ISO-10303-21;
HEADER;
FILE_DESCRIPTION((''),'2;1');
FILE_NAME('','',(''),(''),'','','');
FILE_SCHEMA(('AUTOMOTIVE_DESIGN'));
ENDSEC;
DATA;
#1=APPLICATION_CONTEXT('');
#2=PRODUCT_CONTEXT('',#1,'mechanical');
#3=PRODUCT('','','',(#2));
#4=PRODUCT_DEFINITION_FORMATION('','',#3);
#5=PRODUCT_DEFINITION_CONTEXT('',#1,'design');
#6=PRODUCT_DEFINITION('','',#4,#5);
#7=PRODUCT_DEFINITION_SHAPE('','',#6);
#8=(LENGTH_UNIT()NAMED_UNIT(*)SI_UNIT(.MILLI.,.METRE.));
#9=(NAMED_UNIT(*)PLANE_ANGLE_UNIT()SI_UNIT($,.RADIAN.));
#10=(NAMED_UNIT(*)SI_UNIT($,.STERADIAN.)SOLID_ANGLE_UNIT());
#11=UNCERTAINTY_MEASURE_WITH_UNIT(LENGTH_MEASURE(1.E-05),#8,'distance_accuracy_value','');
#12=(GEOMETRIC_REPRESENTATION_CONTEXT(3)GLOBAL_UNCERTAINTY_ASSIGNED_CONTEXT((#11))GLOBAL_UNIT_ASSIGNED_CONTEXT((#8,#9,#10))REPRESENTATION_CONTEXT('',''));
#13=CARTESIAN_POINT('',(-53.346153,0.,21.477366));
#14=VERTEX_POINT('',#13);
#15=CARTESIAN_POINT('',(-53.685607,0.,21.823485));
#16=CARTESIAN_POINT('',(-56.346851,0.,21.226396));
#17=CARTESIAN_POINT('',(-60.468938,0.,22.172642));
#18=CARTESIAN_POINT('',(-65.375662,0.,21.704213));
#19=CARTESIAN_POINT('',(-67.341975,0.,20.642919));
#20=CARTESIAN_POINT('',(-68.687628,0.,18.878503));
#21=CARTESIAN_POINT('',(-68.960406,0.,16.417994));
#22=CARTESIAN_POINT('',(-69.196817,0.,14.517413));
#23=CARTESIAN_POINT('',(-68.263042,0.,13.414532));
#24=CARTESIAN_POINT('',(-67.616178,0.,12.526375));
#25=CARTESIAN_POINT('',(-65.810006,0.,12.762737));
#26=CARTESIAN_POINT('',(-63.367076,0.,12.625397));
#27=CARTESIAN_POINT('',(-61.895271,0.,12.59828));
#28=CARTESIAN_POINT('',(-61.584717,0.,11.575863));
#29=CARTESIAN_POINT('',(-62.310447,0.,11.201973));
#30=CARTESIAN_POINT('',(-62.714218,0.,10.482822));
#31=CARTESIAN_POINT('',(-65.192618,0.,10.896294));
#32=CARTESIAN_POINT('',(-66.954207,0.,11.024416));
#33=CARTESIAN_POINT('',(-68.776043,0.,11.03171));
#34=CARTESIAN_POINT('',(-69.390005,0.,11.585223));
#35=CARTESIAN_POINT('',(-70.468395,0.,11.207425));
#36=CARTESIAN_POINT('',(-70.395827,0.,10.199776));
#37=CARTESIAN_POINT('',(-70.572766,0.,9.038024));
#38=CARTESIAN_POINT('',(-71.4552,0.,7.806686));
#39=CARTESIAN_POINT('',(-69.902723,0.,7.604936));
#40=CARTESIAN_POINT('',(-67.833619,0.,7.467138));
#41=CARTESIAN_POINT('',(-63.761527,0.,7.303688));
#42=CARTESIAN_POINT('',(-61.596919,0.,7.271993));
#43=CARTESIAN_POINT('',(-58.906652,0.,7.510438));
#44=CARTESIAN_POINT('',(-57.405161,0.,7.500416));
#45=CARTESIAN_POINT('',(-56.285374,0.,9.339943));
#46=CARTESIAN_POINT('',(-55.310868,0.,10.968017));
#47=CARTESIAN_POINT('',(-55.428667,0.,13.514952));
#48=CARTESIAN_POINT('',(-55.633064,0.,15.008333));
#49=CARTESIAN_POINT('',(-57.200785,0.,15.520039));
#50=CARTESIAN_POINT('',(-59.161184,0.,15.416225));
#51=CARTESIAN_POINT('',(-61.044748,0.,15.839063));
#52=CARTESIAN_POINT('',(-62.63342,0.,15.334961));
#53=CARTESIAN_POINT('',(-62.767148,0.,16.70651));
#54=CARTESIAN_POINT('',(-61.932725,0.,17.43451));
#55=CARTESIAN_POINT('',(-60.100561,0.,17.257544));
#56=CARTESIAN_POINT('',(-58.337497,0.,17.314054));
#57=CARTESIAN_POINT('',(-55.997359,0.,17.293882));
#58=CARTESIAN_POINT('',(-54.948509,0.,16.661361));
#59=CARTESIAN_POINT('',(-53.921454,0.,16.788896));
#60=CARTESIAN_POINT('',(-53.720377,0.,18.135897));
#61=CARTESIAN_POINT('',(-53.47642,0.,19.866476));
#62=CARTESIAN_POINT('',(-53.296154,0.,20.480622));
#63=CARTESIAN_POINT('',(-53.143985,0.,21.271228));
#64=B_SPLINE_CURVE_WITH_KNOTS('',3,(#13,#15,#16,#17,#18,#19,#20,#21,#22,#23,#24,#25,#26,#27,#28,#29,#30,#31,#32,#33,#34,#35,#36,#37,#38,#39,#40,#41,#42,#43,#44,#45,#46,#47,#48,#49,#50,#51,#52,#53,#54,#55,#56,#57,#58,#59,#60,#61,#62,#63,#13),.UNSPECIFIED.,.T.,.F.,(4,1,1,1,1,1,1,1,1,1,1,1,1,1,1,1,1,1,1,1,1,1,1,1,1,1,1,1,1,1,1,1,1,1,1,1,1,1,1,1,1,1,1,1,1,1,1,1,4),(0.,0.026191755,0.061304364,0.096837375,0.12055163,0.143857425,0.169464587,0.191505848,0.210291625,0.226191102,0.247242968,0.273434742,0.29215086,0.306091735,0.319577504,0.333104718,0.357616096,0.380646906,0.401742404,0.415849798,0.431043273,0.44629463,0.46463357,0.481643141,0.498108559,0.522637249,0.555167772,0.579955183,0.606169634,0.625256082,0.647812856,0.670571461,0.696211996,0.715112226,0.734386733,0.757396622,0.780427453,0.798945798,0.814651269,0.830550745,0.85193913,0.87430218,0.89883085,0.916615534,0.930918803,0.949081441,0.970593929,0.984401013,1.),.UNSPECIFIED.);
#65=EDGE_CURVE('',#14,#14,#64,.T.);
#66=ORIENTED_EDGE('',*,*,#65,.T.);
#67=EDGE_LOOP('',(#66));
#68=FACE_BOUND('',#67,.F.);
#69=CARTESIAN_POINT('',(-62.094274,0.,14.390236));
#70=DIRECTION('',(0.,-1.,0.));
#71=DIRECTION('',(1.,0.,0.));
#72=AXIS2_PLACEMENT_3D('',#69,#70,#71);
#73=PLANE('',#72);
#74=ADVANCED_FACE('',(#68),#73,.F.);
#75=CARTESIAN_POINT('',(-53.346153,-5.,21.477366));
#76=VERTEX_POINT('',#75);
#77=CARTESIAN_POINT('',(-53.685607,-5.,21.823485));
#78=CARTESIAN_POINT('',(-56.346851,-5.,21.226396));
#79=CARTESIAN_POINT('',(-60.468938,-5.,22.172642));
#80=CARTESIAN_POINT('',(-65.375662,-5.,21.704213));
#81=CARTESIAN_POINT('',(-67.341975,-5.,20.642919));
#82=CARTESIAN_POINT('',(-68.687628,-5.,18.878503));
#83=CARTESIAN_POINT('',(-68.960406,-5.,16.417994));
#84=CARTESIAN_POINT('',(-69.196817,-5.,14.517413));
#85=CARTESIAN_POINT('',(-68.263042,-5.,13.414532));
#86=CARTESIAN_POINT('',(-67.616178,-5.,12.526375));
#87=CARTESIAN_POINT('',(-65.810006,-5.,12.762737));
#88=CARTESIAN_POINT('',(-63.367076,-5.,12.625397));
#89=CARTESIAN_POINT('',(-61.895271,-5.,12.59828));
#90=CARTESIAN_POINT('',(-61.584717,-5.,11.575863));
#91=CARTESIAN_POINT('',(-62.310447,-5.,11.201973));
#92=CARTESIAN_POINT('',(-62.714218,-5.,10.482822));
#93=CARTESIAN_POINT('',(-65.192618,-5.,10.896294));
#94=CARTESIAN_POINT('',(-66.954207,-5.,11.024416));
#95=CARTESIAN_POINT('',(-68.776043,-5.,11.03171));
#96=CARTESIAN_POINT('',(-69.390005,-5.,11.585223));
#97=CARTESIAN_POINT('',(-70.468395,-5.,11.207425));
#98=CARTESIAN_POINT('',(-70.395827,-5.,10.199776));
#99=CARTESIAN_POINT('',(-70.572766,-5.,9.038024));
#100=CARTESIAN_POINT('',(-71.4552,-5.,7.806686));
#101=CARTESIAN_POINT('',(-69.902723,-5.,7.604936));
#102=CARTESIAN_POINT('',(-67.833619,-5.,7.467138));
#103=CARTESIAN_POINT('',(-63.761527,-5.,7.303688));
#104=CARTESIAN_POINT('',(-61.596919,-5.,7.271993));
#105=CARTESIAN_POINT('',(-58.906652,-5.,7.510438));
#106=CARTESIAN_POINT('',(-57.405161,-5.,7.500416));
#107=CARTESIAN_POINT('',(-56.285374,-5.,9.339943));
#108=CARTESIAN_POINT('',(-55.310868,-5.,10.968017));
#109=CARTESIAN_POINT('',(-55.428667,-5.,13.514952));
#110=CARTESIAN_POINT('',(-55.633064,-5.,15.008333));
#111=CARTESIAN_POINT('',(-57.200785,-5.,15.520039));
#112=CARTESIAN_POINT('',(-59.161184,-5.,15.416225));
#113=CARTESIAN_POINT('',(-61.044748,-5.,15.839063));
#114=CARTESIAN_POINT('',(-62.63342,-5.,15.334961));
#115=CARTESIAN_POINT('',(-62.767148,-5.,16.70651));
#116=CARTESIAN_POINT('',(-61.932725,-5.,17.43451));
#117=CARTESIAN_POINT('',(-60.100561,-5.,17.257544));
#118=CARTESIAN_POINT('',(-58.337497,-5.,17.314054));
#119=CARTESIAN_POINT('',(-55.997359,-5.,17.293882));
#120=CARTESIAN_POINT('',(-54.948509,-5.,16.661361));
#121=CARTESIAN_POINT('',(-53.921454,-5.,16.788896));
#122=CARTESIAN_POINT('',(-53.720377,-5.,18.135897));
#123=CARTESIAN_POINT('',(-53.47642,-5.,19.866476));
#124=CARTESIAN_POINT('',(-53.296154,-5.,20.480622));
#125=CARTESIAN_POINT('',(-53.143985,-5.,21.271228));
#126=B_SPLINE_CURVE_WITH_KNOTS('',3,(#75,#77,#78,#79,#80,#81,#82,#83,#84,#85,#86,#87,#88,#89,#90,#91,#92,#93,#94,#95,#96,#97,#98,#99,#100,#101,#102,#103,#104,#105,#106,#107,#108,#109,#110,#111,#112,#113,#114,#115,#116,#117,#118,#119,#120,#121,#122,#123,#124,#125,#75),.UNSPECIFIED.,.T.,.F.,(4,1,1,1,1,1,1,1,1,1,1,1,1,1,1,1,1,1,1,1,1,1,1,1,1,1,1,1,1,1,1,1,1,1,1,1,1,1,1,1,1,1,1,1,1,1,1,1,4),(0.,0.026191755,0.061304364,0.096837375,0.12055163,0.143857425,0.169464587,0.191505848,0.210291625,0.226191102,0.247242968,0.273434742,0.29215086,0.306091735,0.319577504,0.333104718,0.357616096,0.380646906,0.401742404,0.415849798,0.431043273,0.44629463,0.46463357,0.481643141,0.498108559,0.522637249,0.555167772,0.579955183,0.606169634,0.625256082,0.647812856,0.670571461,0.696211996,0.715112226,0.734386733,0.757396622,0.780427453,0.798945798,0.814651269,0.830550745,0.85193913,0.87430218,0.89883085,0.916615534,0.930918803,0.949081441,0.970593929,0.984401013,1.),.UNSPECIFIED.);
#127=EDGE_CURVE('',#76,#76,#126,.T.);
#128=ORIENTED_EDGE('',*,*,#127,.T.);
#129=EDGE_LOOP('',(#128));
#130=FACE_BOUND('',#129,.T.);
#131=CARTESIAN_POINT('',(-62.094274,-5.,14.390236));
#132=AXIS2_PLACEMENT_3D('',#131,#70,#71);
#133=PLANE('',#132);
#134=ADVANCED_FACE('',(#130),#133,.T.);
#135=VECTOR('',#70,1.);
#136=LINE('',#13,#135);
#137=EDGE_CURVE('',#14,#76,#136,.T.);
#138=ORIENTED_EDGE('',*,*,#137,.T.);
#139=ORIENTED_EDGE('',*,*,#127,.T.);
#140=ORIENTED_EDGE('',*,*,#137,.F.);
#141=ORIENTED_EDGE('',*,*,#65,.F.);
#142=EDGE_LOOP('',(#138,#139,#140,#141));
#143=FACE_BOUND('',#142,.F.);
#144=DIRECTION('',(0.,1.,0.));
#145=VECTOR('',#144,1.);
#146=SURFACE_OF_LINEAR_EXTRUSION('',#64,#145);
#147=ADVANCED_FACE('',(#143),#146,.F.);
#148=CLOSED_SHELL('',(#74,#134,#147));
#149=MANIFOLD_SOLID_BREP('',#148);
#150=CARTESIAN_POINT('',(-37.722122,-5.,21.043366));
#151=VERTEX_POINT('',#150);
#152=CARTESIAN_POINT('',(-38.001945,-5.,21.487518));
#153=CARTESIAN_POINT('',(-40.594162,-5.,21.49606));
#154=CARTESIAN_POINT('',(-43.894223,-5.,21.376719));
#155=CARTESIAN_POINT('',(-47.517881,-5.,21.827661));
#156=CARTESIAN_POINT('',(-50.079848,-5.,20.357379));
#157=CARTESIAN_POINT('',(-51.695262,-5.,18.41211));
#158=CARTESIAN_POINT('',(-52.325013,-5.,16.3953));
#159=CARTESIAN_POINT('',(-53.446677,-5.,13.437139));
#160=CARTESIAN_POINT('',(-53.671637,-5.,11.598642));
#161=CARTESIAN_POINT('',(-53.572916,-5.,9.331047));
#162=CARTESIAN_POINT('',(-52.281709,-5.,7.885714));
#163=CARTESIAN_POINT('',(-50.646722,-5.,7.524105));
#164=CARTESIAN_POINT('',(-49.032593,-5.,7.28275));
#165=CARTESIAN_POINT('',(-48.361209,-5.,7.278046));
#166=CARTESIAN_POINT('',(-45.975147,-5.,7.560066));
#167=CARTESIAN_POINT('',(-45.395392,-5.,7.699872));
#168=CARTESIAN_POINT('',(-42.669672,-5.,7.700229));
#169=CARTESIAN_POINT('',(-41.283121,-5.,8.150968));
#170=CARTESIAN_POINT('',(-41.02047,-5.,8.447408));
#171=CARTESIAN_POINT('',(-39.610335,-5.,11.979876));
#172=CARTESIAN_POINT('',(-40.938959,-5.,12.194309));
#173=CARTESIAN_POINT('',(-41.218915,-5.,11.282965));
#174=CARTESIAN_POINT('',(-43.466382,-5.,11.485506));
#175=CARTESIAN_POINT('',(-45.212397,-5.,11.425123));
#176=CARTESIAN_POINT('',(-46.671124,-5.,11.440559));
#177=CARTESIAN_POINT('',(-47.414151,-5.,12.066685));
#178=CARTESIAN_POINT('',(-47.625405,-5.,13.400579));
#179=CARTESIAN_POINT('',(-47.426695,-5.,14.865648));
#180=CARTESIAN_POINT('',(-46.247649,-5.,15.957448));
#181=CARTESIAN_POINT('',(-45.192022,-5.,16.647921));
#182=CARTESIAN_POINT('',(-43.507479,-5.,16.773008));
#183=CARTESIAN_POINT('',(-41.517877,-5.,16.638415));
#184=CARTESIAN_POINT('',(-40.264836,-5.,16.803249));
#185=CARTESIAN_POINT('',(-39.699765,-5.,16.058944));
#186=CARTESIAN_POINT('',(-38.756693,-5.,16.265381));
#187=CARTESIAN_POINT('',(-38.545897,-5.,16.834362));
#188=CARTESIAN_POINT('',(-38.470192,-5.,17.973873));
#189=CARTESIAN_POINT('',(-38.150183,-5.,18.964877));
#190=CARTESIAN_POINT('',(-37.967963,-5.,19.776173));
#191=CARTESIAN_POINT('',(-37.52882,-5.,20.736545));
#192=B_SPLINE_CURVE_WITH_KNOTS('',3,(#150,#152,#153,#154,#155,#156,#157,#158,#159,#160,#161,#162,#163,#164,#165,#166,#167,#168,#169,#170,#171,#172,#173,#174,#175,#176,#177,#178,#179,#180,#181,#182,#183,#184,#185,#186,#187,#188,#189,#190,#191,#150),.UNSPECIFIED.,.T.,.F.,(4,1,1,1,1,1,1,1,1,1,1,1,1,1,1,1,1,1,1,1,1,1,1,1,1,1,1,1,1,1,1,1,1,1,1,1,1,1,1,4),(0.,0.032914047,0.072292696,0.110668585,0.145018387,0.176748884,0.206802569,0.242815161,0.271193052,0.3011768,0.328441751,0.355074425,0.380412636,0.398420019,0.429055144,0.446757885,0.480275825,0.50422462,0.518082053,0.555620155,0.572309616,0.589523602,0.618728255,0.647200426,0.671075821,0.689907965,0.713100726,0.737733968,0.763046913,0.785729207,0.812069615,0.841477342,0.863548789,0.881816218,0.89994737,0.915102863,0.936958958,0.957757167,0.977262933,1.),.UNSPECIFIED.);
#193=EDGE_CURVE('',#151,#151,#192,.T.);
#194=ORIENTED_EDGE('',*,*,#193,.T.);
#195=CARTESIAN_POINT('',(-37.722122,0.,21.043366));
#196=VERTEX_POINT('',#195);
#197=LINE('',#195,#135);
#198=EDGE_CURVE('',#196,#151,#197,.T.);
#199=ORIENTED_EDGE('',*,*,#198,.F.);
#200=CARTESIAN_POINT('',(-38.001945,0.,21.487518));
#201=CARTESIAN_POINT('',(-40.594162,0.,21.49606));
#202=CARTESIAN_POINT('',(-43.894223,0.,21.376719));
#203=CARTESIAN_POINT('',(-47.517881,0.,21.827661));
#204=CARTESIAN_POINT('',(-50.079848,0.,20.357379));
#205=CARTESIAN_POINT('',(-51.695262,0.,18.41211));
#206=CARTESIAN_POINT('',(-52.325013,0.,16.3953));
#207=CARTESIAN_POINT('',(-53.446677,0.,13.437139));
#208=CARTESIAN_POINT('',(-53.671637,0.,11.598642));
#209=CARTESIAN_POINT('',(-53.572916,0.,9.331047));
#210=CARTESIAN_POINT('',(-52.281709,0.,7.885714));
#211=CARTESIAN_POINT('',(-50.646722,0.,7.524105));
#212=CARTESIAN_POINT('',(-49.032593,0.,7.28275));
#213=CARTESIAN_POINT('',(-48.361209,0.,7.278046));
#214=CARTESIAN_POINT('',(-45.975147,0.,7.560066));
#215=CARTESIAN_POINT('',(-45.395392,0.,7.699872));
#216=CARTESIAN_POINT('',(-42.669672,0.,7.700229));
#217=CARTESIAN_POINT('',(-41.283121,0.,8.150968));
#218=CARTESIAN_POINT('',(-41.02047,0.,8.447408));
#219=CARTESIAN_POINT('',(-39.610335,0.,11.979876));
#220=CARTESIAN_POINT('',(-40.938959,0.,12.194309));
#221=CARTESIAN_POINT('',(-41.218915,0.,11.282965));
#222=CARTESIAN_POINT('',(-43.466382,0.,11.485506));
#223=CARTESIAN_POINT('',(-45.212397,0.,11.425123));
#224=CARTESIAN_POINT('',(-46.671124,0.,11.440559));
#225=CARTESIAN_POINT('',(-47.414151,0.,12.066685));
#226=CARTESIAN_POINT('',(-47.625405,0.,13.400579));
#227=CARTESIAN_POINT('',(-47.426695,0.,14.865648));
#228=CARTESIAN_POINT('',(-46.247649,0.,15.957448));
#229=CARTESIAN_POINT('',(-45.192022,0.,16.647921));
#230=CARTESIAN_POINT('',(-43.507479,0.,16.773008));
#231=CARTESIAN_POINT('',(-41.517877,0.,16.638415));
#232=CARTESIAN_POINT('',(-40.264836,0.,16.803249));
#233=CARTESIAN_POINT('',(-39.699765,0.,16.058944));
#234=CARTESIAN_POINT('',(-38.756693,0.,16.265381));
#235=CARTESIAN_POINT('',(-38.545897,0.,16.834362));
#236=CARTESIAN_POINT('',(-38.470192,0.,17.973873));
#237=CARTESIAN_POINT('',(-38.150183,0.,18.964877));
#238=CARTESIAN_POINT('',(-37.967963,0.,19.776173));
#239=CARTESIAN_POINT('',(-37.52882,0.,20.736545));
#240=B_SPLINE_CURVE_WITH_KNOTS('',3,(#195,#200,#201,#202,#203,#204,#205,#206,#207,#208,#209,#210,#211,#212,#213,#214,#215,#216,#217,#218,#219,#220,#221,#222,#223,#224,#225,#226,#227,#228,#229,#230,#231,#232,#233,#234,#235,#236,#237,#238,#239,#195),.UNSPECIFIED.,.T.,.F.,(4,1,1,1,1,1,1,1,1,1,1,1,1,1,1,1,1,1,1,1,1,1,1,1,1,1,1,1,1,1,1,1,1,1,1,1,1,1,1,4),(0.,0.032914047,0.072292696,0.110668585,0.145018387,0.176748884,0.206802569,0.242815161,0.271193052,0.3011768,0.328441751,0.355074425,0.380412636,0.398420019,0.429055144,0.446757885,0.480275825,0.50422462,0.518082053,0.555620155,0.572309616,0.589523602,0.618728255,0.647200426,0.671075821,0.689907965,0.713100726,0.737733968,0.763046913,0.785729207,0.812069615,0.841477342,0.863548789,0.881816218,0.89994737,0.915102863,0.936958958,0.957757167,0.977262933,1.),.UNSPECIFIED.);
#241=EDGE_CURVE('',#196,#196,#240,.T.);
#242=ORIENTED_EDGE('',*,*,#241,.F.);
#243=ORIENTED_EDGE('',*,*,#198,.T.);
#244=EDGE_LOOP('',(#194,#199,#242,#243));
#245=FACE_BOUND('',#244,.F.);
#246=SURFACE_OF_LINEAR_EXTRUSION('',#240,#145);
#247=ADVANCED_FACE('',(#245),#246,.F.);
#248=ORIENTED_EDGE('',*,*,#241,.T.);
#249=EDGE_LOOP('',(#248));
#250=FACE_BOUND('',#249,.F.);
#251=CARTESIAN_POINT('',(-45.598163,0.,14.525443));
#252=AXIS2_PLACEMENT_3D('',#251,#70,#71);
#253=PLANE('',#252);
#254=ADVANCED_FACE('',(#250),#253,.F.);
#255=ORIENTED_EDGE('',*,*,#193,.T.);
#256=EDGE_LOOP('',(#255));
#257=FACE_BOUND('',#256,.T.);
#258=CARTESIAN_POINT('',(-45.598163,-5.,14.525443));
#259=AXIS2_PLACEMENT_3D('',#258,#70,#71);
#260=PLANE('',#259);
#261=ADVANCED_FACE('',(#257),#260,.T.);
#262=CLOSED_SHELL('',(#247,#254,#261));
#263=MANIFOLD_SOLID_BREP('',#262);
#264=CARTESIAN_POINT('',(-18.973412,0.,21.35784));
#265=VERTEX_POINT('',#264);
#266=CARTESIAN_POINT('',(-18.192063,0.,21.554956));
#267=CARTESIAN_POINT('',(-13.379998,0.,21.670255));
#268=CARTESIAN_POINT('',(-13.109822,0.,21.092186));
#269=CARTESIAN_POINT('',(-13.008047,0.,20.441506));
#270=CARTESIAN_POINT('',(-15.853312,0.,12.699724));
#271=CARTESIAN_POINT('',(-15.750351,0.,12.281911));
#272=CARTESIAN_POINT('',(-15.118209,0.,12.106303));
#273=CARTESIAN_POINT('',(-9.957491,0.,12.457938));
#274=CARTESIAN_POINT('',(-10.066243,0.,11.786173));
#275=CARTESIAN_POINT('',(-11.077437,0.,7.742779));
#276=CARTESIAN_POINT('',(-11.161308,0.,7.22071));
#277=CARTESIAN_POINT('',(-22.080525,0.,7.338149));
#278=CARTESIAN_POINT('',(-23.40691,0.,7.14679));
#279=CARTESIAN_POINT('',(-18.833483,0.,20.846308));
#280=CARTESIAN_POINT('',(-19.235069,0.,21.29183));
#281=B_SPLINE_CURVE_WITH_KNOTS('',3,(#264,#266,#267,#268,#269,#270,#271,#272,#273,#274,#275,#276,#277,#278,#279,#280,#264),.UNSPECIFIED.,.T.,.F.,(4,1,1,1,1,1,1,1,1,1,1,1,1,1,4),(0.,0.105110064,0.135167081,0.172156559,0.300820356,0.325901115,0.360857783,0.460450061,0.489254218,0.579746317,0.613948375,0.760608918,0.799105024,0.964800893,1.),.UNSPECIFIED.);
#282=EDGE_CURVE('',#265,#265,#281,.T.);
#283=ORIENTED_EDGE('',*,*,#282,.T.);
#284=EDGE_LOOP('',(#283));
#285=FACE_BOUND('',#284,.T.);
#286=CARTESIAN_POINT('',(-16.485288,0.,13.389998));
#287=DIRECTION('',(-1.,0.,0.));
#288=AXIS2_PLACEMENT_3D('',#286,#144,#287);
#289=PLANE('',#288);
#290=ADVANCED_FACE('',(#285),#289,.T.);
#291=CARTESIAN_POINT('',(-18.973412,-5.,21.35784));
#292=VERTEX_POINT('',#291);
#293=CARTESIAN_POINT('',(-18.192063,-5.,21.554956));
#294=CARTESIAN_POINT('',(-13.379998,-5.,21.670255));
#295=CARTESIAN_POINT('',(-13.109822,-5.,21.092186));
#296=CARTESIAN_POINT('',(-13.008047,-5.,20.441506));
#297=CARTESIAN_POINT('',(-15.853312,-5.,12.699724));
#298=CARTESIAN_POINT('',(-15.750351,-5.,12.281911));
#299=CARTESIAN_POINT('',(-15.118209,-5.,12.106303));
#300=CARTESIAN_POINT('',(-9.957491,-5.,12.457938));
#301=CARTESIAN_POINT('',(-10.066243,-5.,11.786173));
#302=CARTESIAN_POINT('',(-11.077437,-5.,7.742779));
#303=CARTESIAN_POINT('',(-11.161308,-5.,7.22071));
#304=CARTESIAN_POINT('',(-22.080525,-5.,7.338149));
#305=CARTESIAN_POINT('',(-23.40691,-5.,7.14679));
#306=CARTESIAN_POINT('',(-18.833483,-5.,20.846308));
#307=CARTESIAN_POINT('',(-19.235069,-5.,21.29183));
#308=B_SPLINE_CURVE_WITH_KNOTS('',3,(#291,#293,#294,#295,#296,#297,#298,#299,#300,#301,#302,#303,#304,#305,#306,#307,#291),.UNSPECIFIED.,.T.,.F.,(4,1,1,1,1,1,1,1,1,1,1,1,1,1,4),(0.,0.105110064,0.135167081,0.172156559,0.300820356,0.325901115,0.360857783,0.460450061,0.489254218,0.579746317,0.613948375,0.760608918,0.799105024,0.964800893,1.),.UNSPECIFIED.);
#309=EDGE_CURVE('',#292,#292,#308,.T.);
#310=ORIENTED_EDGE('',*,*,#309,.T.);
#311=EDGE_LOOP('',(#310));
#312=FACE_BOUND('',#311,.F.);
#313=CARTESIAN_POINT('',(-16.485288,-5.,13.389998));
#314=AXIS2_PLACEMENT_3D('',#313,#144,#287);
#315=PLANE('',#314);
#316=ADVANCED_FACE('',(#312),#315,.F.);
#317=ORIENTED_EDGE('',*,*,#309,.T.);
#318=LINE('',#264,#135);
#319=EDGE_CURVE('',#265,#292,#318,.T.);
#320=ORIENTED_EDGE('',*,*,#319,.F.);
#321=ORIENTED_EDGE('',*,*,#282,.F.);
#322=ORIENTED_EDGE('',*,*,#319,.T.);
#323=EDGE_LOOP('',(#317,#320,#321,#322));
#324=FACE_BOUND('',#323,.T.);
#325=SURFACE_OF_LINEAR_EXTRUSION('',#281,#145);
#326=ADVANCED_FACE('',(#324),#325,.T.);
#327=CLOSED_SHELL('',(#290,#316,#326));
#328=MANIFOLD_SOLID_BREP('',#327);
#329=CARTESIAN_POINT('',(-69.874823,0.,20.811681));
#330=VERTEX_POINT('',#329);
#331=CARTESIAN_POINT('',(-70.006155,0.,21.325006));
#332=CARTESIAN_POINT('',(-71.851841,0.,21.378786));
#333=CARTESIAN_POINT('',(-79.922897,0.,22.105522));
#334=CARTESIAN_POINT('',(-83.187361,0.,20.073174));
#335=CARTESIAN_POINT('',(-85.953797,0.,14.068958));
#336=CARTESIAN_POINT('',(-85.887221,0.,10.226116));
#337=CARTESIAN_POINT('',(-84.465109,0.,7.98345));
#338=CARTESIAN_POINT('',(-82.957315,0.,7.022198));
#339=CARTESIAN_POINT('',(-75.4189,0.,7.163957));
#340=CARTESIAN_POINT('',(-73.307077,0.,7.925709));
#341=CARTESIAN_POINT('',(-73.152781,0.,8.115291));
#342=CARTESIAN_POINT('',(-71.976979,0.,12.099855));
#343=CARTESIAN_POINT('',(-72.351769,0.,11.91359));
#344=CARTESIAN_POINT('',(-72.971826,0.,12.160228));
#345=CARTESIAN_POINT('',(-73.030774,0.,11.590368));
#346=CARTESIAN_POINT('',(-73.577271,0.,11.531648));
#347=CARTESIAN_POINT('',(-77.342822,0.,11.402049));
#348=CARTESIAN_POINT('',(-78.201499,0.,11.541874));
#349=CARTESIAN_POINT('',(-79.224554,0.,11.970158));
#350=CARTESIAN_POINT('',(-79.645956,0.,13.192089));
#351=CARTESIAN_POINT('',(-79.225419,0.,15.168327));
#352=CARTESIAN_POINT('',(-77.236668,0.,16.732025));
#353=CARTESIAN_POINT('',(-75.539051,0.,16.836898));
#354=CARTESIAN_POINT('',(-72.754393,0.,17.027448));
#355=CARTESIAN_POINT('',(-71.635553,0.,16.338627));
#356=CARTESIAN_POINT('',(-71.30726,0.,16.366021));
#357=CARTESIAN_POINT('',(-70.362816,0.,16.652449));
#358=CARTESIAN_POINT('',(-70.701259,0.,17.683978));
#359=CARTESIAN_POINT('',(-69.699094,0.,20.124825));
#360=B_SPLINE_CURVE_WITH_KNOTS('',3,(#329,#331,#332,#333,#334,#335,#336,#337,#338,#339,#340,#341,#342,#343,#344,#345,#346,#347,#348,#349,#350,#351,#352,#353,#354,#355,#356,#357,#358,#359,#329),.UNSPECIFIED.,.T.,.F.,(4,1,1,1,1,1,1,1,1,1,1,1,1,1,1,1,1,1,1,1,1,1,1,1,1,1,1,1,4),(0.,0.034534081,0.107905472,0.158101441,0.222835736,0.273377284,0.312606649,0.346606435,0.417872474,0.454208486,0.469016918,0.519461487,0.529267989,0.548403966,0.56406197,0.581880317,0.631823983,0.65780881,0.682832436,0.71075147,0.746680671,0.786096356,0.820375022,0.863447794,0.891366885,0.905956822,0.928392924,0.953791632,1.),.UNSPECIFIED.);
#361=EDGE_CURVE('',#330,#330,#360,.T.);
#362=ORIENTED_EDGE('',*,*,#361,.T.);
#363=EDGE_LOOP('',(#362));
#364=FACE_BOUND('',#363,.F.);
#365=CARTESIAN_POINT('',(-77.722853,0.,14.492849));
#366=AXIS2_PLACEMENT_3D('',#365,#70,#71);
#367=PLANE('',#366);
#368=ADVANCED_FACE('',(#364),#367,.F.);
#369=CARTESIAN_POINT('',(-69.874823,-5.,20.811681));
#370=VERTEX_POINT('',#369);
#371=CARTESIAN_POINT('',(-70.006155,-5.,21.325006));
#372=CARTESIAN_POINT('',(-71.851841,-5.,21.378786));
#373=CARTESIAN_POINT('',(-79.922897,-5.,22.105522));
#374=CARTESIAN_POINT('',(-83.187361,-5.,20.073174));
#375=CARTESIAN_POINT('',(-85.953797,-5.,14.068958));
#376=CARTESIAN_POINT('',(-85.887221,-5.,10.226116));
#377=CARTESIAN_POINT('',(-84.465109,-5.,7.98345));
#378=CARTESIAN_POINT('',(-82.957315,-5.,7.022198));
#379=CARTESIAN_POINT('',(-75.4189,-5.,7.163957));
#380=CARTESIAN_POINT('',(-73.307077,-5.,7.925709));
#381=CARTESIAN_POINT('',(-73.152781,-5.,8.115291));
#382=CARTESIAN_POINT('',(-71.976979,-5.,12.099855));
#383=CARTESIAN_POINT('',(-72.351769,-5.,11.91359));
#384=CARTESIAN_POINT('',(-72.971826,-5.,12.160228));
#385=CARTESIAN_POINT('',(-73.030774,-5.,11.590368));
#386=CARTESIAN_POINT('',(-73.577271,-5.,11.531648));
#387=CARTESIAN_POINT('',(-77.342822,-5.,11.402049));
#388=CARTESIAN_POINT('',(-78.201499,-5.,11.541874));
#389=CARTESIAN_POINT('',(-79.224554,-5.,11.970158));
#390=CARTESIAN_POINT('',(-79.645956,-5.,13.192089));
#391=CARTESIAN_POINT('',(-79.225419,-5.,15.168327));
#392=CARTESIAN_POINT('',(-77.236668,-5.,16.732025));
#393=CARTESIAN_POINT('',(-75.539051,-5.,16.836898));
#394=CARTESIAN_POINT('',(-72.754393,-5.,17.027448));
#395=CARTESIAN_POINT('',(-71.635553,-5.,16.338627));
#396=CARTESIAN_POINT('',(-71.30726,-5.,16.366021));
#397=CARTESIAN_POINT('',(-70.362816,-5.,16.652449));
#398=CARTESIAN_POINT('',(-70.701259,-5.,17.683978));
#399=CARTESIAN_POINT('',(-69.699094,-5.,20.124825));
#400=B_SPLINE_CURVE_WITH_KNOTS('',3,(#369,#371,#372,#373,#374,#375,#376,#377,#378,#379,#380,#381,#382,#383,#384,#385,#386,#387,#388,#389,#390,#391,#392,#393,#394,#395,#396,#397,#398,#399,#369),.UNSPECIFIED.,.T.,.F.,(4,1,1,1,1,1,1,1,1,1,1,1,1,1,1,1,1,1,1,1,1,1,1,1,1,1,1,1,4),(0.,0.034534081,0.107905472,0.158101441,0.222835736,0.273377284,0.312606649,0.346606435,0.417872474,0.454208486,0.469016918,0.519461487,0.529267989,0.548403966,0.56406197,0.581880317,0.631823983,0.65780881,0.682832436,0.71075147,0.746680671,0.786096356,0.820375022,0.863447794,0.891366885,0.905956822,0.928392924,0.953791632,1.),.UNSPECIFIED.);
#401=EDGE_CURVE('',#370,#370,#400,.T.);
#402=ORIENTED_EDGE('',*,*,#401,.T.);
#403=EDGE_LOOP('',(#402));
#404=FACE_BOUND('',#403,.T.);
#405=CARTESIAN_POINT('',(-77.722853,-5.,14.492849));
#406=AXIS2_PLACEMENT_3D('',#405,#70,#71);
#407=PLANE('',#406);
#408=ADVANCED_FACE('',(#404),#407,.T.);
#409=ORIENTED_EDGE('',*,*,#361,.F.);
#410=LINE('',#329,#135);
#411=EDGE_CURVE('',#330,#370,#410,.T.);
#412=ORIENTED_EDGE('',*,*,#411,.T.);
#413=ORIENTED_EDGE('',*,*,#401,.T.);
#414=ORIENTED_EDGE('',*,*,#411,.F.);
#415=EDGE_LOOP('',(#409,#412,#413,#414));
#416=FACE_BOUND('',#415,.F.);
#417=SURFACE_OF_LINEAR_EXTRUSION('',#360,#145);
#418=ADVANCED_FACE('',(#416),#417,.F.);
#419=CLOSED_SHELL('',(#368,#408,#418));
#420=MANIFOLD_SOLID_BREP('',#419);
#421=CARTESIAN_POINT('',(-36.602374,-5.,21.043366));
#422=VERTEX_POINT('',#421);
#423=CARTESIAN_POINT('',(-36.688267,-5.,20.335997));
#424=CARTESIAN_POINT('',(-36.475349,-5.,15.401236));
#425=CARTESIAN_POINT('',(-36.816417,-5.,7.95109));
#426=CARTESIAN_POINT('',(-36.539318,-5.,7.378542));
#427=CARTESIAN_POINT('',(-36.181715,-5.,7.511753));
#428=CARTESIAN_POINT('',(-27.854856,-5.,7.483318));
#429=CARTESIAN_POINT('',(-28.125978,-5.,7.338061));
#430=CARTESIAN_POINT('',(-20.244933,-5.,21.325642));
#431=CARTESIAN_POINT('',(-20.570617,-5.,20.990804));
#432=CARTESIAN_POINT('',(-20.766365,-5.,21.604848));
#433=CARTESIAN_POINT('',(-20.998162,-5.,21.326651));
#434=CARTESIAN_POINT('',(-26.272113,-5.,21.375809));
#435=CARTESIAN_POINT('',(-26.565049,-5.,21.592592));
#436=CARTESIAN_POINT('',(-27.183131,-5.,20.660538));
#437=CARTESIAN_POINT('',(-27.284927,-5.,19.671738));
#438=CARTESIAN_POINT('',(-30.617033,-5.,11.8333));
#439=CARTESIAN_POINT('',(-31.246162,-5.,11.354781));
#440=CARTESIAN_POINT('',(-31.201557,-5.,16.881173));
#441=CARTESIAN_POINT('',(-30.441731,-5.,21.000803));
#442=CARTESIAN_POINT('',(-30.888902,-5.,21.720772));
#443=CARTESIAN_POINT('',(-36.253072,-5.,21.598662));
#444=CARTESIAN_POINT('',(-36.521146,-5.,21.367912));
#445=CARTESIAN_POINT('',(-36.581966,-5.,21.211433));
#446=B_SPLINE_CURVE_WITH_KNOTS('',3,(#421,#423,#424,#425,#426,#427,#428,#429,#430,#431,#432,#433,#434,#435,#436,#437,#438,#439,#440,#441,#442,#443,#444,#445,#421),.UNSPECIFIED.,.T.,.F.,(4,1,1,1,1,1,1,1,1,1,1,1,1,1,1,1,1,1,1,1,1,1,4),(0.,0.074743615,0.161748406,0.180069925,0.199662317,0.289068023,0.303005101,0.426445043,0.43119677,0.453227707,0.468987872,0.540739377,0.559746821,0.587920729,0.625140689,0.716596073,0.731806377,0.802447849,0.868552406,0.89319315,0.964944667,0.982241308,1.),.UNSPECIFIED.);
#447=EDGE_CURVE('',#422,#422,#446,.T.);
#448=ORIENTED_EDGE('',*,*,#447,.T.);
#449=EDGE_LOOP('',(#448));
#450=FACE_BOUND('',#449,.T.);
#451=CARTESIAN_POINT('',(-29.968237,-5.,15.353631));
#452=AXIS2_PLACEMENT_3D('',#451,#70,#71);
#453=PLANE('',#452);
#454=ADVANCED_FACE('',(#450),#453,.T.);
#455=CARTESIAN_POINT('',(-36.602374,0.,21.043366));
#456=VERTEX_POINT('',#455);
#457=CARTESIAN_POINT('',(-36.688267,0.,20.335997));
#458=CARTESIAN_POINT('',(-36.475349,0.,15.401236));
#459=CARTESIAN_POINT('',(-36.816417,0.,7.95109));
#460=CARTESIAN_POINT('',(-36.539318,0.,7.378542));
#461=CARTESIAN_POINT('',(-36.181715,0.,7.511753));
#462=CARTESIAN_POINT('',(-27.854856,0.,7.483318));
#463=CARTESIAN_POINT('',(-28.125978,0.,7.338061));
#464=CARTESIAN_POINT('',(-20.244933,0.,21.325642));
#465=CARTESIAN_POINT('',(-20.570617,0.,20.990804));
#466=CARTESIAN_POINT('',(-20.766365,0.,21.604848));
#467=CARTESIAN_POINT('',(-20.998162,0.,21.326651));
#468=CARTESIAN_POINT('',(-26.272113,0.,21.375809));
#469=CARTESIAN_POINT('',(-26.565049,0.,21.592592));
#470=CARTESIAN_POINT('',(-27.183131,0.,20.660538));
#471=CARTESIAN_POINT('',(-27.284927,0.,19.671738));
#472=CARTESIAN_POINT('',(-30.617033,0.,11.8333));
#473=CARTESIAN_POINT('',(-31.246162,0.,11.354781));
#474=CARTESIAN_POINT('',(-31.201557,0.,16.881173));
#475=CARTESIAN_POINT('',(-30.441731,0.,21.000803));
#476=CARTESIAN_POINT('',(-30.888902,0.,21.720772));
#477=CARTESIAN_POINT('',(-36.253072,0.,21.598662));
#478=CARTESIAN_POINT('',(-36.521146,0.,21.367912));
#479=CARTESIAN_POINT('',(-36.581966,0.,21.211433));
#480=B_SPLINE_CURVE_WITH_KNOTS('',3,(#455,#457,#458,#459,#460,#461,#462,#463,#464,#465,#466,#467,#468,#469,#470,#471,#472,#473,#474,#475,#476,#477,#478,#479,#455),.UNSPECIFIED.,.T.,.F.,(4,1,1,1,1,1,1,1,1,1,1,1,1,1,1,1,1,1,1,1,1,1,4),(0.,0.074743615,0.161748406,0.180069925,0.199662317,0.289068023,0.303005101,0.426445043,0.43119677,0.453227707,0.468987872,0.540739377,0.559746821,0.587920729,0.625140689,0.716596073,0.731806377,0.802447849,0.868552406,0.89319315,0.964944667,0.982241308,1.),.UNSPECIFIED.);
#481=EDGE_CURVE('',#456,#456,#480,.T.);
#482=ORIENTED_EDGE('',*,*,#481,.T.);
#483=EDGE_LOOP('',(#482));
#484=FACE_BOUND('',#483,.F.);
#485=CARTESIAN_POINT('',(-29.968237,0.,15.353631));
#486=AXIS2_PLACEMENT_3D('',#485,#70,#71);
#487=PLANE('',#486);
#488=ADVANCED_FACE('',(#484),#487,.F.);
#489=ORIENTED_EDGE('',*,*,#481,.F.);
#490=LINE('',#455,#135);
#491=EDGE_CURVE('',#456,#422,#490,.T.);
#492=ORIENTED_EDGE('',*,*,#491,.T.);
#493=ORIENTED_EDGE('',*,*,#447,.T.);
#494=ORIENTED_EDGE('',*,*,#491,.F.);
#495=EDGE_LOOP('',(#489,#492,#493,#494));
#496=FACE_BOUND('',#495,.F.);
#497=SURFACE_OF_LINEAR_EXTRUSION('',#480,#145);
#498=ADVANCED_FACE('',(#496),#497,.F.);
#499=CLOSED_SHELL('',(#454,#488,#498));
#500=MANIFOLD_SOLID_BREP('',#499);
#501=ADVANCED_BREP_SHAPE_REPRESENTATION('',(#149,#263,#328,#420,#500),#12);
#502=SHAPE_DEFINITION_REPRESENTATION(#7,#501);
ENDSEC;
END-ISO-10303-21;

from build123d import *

# Parameters (mm, degrees)
F1_DEPTH = 5


with BuildPart() as f1:
    # F0 (on Front) → F1 (new body)
    with BuildSketch(Plane.XZ):
        with BuildLine():
            add(Edge.make_bspline(
                [(-18.9734119922, 21.3578399271), (-18.1920634711, 21.5549561189), (-13.3799981302, 21.6702549418), (-13.1098219863, 21.0921864549), (-13.0080468529, 20.4415061631), (-15.8533116695, 12.6997237434), (-15.7503513308, 12.2819109462), (-15.1182093168, 12.1063030272), (-9.9574907797, 12.4579380181), (-10.0662428107, 11.7861727775), (-11.0774374921, 7.7427788704), (-11.1613078534, 7.2207101408), (-22.0805253209, 7.3381493473), (-23.4069099729, 7.1467899349), (-18.8334830026, 20.8463081881), (-19.2350688591, 21.2918299408), (-18.9734119922, 21.3578399271)],
                knots=[0, 0, 0, 0, 0.1051100638, 0.1351670813, 0.1721565587, 0.300820356, 0.3259011154, 0.3608577832, 0.4604500606, 0.4892542177, 0.5797463174, 0.6139483749, 0.7606089181, 0.7991050245, 0.9648008933, 1, 1, 1, 1], degree=3))
        make_face()
    extrude(amount=F1_DEPTH)


with BuildPart() as f1b:
    # F0 (on Front) → F1, piece 2 (new body)
    with BuildSketch(Plane.XZ):
        with BuildLine():
            add(Edge.make_bspline(
                [(-36.6023741663, 21.0433658212), (-36.6882674886, 20.3359965168), (-36.4753489116, 15.4012361827), (-36.8164173573, 7.9510895871), (-36.5393184149, 7.3785424149), (-36.1817148221, 7.5117531331), (-27.8548562226, 7.4833177354), (-28.1259784633, 7.3380613934), (-20.2449332911, 21.325641674), (-20.5706165261, 20.9908043124), (-20.766364917, 21.6048476064), (-20.9981619327, 21.3266513136), (-26.2721128992, 21.3758085614), (-26.5650494932, 21.5925919776), (-27.1831311783, 20.6605381275), (-27.2849271089, 19.6717381219), (-30.6170334181, 11.8333000275), (-31.2461623188, 11.3547813646), (-31.2015568261, 16.8811731233), (-30.4417311687, 21.0008031139), (-30.8889022607, 21.7207715416), (-36.2530724198, 21.5986623709), (-36.5211464271, 21.3679123383), (-36.5819663623, 21.2114330663), (-36.6023741663, 21.0433658212)],
                knots=[0, 0, 0, 0, 0.0747436154, 0.1617484056, 0.1800699245, 0.1996623168, 0.2890680225, 0.3030051009, 0.4264450428, 0.4311967704, 0.4532277069, 0.4689878723, 0.5407393767, 0.5597468205, 0.5879207286, 0.6251406894, 0.7165960731, 0.7318063766, 0.8024478494, 0.8685524055, 0.89319315, 0.9649446672, 0.9822413081, 1, 1, 1, 1], degree=3))
        make_face()
    extrude(amount=F1_DEPTH)


with BuildPart() as f1c:
    # F0 (on Front) → F1, piece 3 (new body)
    with BuildSketch(Plane.XZ):
        with BuildLine():
            add(Edge.make_bspline(
                [(-37.7221219242, 21.0433658212), (-38.0019446368, 21.4875178114), (-40.5941620595, 21.496060224), (-43.8942226518, 21.3767190147), (-47.5178805012, 21.8276607759), (-50.0798476026, 20.3573791308), (-51.6952615398, 18.4121096621), (-52.3250129403, 16.3952998388), (-53.4466766249, 13.4371394756), (-53.6716365772, 11.5986422537), (-53.5729158537, 9.3310473869), (-52.2817093486, 7.885713717), (-50.6467217745, 7.5241045606), (-49.0325928098, 7.2827495857), (-48.3612094326, 7.278045553), (-45.9751469197, 7.5600664777), (-45.3953924138, 7.6998720614), (-42.6696719416, 7.7002293833), (-41.2831207531, 8.1509675318), (-41.0204704446, 8.4474084274), (-39.6103346405, 11.9798760102), (-40.9389593604, 12.1943094698), (-41.2189154449, 11.2829651264), (-43.466382185, 11.4855056147), (-45.2123967859, 11.4251233861), (-46.671123522, 11.4405593422), (-47.4141512707, 12.0666849089), (-47.6254050516, 13.4005794071), (-47.4266945018, 14.8656479833), (-46.2476492237, 15.9574483619), (-45.1920217608, 16.6479208087), (-43.5074787739, 16.7730079122), (-41.5178772687, 16.638415493), (-40.2648357669, 16.8032487257), (-39.699764508, 16.0589443256), (-38.7566929218, 16.2653811526), (-38.5458972806, 16.8343624378), (-38.4701921056, 17.9738726816), (-38.1501830467, 18.9648773086), (-37.9679632896, 19.7761732479), (-37.5288200288, 20.7365450464), (-37.7221219242, 21.0433658212)],
                knots=[0, 0, 0, 0, 0.0329140474, 0.0722926964, 0.1106685851, 0.1450183866, 0.1767488844, 0.2068025694, 0.2428151607, 0.2711930517, 0.3011768001, 0.3284417513, 0.3550744252, 0.3804126363, 0.3984200188, 0.429055144, 0.4467578852, 0.4802758249, 0.5042246197, 0.5180820534, 0.5556201552, 0.5723096164, 0.5895236019, 0.6187282548, 0.6472004263, 0.671075821, 0.6899079653, 0.7131007255, 0.7377339678, 0.7630469135, 0.7857292071, 0.8120696152, 0.8414773422, 0.8635487891, 0.8818162181, 0.8999473698, 0.9151028632, 0.9369589582, 0.957757167, 0.9772629331, 1, 1, 1, 1], degree=3))
        make_face()
    extrude(amount=F1_DEPTH)


with BuildPart() as f1d:
    # F0 (on Front) → F1, piece 4 (new body)
    with BuildSketch(Plane.XZ):
        with BuildLine():
            add(Edge.make_bspline(
                [(-53.3461533487, 21.4773658663), (-53.6856071372, 21.8234847537), (-56.3468505919, 21.2263955776), (-60.4689384695, 22.1726422738), (-65.3756624409, 21.7042125126), (-67.3419753669, 20.6429187795), (-68.687627755, 18.878503307), (-68.9604060112, 16.4179935608), (-69.1968171692, 14.5174129095), (-68.2630415538, 13.4145317111), (-67.616178284, 12.5263754825), (-65.8100063192, 12.7627372446), (-63.3670759563, 12.625397163), (-61.8952706542, 12.5982797327), (-61.584716743, 11.5758629312), (-62.3104474606, 11.2019731379), (-62.7142181323, 10.4828220914), (-65.1926184794, 10.8962939202), (-66.9542070368, 11.0244164496), (-68.7760434569, 11.031710389), (-69.3900045032, 11.58522325), (-70.4683950423, 11.2074251262), (-70.3958270437, 10.1997760624), (-70.5727659358, 9.0380241507), (-71.4552001229, 7.8066864719), (-69.902723013, 7.6049359981), (-67.8336193798, 7.4671377219), (-63.7615272865, 7.3036881878), (-61.5969185435, 7.2719927083), (-58.9066524271, 7.5104378271), (-57.4051612635, 7.5004157637), (-56.2853741942, 9.3399430272), (-55.3108676859, 10.9680169716), (-55.4286674993, 13.5149523578), (-55.6330642269, 15.0083331686), (-57.2007846871, 15.5200389294), (-59.1611842776, 15.4162248495), (-61.0447476938, 15.8390628755), (-62.633420412, 15.3349607909), (-62.7671483965, 16.7065095267), (-61.9327247542, 17.4345101541), (-60.1005611859, 17.2575435871), (-58.3374965539, 17.314053852), (-55.9973588986, 17.2938817757), (-54.948508706, 16.6613608236), (-53.9214539688, 16.7888958529), (-53.7203770306, 18.1358970359), (-53.4764198678, 19.8664755994), (-53.2961541388, 20.4806221261), (-53.143985327, 21.271228321), (-53.3461533487, 21.4773658663)],
                knots=[0, 0, 0, 0, 0.0261917545, 0.0613043643, 0.0968373752, 0.1205516302, 0.1438574253, 0.1694645868, 0.191505848, 0.2102916248, 0.2261911018, 0.2472429685, 0.2734347416, 0.2921508596, 0.3060917346, 0.3195775035, 0.3331047178, 0.357616096, 0.3806469056, 0.4017424036, 0.415849798, 0.4310432732, 0.4462946301, 0.4646335698, 0.4816431406, 0.4981085587, 0.5226372486, 0.5551677723, 0.5799551831, 0.6061696337, 0.6252560824, 0.6478128555, 0.6705714611, 0.6962119964, 0.7151122261, 0.734386733, 0.7573966224, 0.7804274532, 0.798945798, 0.8146512685, 0.8305507454, 0.8519391296, 0.8743021802, 0.8988308501, 0.916615534, 0.9309188026, 0.9490814408, 0.9705939285, 0.9844010131, 1, 1, 1, 1], degree=3))
        make_face()
    extrude(amount=F1_DEPTH)


with BuildPart() as f1e:
    # F0 (on Front) → F1, piece 5 (new body)
    with BuildSketch(Plane.XZ):
        with BuildLine():
            add(Edge.make_bspline(
                [(-69.8748230934, 20.8116807044), (-70.0061554885, 21.3250064185), (-71.8518414427, 21.3787857791), (-79.9228969054, 22.1055215183), (-83.1873605504, 20.0731741162), (-85.953796801, 14.0689575593), (-85.8872205454, 10.2261163543), (-84.4651093742, 7.9834503969), (-82.9573145646, 7.0221979285), (-75.4189001812, 7.1639570264), (-73.3070774121, 7.9257090862), (-73.1527812012, 8.1152908436), (-71.9769787476, 12.0998550514), (-72.3517685389, 11.9135899773), (-72.9718257123, 12.1602284295), (-73.030774299, 11.5903680073), (-73.5772706138, 11.5316481051), (-77.3428218443, 11.4020491052), (-78.2014988098, 11.5418740655), (-79.2245539533, 11.9701579453), (-79.6459561547, 13.192089156), (-79.2254190637, 15.1683269473), (-77.2366675438, 16.7320248847), (-75.5390509001, 16.8368983798), (-72.7543927591, 17.0274480715), (-71.6355525215, 16.3386265637), (-71.3072598055, 16.3660209705), (-70.3628158045, 16.6524493236), (-70.701259323, 17.6839778431), (-69.6990936303, 20.1248246391), (-69.8748230934, 20.8116807044)],
                knots=[0, 0, 0, 0, 0.0345340814, 0.1079054722, 0.1581014407, 0.2228357356, 0.2733772836, 0.3126066494, 0.3466064355, 0.4178724736, 0.454208486, 0.4690169178, 0.5194614869, 0.5292679885, 0.5484039656, 0.5640619697, 0.5818803172, 0.6318239831, 0.6578088104, 0.6828324361, 0.7107514696, 0.7466806707, 0.7860963559, 0.8203750219, 0.8634477939, 0.8913668846, 0.9059568221, 0.9283929235, 0.9537916325, 1, 1, 1, 1], degree=3))
        make_face()
    extrude(amount=F1_DEPTH)


solid = Compound([f1.part, f1b.part, f1c.part, f1d.part, f1e.part])
